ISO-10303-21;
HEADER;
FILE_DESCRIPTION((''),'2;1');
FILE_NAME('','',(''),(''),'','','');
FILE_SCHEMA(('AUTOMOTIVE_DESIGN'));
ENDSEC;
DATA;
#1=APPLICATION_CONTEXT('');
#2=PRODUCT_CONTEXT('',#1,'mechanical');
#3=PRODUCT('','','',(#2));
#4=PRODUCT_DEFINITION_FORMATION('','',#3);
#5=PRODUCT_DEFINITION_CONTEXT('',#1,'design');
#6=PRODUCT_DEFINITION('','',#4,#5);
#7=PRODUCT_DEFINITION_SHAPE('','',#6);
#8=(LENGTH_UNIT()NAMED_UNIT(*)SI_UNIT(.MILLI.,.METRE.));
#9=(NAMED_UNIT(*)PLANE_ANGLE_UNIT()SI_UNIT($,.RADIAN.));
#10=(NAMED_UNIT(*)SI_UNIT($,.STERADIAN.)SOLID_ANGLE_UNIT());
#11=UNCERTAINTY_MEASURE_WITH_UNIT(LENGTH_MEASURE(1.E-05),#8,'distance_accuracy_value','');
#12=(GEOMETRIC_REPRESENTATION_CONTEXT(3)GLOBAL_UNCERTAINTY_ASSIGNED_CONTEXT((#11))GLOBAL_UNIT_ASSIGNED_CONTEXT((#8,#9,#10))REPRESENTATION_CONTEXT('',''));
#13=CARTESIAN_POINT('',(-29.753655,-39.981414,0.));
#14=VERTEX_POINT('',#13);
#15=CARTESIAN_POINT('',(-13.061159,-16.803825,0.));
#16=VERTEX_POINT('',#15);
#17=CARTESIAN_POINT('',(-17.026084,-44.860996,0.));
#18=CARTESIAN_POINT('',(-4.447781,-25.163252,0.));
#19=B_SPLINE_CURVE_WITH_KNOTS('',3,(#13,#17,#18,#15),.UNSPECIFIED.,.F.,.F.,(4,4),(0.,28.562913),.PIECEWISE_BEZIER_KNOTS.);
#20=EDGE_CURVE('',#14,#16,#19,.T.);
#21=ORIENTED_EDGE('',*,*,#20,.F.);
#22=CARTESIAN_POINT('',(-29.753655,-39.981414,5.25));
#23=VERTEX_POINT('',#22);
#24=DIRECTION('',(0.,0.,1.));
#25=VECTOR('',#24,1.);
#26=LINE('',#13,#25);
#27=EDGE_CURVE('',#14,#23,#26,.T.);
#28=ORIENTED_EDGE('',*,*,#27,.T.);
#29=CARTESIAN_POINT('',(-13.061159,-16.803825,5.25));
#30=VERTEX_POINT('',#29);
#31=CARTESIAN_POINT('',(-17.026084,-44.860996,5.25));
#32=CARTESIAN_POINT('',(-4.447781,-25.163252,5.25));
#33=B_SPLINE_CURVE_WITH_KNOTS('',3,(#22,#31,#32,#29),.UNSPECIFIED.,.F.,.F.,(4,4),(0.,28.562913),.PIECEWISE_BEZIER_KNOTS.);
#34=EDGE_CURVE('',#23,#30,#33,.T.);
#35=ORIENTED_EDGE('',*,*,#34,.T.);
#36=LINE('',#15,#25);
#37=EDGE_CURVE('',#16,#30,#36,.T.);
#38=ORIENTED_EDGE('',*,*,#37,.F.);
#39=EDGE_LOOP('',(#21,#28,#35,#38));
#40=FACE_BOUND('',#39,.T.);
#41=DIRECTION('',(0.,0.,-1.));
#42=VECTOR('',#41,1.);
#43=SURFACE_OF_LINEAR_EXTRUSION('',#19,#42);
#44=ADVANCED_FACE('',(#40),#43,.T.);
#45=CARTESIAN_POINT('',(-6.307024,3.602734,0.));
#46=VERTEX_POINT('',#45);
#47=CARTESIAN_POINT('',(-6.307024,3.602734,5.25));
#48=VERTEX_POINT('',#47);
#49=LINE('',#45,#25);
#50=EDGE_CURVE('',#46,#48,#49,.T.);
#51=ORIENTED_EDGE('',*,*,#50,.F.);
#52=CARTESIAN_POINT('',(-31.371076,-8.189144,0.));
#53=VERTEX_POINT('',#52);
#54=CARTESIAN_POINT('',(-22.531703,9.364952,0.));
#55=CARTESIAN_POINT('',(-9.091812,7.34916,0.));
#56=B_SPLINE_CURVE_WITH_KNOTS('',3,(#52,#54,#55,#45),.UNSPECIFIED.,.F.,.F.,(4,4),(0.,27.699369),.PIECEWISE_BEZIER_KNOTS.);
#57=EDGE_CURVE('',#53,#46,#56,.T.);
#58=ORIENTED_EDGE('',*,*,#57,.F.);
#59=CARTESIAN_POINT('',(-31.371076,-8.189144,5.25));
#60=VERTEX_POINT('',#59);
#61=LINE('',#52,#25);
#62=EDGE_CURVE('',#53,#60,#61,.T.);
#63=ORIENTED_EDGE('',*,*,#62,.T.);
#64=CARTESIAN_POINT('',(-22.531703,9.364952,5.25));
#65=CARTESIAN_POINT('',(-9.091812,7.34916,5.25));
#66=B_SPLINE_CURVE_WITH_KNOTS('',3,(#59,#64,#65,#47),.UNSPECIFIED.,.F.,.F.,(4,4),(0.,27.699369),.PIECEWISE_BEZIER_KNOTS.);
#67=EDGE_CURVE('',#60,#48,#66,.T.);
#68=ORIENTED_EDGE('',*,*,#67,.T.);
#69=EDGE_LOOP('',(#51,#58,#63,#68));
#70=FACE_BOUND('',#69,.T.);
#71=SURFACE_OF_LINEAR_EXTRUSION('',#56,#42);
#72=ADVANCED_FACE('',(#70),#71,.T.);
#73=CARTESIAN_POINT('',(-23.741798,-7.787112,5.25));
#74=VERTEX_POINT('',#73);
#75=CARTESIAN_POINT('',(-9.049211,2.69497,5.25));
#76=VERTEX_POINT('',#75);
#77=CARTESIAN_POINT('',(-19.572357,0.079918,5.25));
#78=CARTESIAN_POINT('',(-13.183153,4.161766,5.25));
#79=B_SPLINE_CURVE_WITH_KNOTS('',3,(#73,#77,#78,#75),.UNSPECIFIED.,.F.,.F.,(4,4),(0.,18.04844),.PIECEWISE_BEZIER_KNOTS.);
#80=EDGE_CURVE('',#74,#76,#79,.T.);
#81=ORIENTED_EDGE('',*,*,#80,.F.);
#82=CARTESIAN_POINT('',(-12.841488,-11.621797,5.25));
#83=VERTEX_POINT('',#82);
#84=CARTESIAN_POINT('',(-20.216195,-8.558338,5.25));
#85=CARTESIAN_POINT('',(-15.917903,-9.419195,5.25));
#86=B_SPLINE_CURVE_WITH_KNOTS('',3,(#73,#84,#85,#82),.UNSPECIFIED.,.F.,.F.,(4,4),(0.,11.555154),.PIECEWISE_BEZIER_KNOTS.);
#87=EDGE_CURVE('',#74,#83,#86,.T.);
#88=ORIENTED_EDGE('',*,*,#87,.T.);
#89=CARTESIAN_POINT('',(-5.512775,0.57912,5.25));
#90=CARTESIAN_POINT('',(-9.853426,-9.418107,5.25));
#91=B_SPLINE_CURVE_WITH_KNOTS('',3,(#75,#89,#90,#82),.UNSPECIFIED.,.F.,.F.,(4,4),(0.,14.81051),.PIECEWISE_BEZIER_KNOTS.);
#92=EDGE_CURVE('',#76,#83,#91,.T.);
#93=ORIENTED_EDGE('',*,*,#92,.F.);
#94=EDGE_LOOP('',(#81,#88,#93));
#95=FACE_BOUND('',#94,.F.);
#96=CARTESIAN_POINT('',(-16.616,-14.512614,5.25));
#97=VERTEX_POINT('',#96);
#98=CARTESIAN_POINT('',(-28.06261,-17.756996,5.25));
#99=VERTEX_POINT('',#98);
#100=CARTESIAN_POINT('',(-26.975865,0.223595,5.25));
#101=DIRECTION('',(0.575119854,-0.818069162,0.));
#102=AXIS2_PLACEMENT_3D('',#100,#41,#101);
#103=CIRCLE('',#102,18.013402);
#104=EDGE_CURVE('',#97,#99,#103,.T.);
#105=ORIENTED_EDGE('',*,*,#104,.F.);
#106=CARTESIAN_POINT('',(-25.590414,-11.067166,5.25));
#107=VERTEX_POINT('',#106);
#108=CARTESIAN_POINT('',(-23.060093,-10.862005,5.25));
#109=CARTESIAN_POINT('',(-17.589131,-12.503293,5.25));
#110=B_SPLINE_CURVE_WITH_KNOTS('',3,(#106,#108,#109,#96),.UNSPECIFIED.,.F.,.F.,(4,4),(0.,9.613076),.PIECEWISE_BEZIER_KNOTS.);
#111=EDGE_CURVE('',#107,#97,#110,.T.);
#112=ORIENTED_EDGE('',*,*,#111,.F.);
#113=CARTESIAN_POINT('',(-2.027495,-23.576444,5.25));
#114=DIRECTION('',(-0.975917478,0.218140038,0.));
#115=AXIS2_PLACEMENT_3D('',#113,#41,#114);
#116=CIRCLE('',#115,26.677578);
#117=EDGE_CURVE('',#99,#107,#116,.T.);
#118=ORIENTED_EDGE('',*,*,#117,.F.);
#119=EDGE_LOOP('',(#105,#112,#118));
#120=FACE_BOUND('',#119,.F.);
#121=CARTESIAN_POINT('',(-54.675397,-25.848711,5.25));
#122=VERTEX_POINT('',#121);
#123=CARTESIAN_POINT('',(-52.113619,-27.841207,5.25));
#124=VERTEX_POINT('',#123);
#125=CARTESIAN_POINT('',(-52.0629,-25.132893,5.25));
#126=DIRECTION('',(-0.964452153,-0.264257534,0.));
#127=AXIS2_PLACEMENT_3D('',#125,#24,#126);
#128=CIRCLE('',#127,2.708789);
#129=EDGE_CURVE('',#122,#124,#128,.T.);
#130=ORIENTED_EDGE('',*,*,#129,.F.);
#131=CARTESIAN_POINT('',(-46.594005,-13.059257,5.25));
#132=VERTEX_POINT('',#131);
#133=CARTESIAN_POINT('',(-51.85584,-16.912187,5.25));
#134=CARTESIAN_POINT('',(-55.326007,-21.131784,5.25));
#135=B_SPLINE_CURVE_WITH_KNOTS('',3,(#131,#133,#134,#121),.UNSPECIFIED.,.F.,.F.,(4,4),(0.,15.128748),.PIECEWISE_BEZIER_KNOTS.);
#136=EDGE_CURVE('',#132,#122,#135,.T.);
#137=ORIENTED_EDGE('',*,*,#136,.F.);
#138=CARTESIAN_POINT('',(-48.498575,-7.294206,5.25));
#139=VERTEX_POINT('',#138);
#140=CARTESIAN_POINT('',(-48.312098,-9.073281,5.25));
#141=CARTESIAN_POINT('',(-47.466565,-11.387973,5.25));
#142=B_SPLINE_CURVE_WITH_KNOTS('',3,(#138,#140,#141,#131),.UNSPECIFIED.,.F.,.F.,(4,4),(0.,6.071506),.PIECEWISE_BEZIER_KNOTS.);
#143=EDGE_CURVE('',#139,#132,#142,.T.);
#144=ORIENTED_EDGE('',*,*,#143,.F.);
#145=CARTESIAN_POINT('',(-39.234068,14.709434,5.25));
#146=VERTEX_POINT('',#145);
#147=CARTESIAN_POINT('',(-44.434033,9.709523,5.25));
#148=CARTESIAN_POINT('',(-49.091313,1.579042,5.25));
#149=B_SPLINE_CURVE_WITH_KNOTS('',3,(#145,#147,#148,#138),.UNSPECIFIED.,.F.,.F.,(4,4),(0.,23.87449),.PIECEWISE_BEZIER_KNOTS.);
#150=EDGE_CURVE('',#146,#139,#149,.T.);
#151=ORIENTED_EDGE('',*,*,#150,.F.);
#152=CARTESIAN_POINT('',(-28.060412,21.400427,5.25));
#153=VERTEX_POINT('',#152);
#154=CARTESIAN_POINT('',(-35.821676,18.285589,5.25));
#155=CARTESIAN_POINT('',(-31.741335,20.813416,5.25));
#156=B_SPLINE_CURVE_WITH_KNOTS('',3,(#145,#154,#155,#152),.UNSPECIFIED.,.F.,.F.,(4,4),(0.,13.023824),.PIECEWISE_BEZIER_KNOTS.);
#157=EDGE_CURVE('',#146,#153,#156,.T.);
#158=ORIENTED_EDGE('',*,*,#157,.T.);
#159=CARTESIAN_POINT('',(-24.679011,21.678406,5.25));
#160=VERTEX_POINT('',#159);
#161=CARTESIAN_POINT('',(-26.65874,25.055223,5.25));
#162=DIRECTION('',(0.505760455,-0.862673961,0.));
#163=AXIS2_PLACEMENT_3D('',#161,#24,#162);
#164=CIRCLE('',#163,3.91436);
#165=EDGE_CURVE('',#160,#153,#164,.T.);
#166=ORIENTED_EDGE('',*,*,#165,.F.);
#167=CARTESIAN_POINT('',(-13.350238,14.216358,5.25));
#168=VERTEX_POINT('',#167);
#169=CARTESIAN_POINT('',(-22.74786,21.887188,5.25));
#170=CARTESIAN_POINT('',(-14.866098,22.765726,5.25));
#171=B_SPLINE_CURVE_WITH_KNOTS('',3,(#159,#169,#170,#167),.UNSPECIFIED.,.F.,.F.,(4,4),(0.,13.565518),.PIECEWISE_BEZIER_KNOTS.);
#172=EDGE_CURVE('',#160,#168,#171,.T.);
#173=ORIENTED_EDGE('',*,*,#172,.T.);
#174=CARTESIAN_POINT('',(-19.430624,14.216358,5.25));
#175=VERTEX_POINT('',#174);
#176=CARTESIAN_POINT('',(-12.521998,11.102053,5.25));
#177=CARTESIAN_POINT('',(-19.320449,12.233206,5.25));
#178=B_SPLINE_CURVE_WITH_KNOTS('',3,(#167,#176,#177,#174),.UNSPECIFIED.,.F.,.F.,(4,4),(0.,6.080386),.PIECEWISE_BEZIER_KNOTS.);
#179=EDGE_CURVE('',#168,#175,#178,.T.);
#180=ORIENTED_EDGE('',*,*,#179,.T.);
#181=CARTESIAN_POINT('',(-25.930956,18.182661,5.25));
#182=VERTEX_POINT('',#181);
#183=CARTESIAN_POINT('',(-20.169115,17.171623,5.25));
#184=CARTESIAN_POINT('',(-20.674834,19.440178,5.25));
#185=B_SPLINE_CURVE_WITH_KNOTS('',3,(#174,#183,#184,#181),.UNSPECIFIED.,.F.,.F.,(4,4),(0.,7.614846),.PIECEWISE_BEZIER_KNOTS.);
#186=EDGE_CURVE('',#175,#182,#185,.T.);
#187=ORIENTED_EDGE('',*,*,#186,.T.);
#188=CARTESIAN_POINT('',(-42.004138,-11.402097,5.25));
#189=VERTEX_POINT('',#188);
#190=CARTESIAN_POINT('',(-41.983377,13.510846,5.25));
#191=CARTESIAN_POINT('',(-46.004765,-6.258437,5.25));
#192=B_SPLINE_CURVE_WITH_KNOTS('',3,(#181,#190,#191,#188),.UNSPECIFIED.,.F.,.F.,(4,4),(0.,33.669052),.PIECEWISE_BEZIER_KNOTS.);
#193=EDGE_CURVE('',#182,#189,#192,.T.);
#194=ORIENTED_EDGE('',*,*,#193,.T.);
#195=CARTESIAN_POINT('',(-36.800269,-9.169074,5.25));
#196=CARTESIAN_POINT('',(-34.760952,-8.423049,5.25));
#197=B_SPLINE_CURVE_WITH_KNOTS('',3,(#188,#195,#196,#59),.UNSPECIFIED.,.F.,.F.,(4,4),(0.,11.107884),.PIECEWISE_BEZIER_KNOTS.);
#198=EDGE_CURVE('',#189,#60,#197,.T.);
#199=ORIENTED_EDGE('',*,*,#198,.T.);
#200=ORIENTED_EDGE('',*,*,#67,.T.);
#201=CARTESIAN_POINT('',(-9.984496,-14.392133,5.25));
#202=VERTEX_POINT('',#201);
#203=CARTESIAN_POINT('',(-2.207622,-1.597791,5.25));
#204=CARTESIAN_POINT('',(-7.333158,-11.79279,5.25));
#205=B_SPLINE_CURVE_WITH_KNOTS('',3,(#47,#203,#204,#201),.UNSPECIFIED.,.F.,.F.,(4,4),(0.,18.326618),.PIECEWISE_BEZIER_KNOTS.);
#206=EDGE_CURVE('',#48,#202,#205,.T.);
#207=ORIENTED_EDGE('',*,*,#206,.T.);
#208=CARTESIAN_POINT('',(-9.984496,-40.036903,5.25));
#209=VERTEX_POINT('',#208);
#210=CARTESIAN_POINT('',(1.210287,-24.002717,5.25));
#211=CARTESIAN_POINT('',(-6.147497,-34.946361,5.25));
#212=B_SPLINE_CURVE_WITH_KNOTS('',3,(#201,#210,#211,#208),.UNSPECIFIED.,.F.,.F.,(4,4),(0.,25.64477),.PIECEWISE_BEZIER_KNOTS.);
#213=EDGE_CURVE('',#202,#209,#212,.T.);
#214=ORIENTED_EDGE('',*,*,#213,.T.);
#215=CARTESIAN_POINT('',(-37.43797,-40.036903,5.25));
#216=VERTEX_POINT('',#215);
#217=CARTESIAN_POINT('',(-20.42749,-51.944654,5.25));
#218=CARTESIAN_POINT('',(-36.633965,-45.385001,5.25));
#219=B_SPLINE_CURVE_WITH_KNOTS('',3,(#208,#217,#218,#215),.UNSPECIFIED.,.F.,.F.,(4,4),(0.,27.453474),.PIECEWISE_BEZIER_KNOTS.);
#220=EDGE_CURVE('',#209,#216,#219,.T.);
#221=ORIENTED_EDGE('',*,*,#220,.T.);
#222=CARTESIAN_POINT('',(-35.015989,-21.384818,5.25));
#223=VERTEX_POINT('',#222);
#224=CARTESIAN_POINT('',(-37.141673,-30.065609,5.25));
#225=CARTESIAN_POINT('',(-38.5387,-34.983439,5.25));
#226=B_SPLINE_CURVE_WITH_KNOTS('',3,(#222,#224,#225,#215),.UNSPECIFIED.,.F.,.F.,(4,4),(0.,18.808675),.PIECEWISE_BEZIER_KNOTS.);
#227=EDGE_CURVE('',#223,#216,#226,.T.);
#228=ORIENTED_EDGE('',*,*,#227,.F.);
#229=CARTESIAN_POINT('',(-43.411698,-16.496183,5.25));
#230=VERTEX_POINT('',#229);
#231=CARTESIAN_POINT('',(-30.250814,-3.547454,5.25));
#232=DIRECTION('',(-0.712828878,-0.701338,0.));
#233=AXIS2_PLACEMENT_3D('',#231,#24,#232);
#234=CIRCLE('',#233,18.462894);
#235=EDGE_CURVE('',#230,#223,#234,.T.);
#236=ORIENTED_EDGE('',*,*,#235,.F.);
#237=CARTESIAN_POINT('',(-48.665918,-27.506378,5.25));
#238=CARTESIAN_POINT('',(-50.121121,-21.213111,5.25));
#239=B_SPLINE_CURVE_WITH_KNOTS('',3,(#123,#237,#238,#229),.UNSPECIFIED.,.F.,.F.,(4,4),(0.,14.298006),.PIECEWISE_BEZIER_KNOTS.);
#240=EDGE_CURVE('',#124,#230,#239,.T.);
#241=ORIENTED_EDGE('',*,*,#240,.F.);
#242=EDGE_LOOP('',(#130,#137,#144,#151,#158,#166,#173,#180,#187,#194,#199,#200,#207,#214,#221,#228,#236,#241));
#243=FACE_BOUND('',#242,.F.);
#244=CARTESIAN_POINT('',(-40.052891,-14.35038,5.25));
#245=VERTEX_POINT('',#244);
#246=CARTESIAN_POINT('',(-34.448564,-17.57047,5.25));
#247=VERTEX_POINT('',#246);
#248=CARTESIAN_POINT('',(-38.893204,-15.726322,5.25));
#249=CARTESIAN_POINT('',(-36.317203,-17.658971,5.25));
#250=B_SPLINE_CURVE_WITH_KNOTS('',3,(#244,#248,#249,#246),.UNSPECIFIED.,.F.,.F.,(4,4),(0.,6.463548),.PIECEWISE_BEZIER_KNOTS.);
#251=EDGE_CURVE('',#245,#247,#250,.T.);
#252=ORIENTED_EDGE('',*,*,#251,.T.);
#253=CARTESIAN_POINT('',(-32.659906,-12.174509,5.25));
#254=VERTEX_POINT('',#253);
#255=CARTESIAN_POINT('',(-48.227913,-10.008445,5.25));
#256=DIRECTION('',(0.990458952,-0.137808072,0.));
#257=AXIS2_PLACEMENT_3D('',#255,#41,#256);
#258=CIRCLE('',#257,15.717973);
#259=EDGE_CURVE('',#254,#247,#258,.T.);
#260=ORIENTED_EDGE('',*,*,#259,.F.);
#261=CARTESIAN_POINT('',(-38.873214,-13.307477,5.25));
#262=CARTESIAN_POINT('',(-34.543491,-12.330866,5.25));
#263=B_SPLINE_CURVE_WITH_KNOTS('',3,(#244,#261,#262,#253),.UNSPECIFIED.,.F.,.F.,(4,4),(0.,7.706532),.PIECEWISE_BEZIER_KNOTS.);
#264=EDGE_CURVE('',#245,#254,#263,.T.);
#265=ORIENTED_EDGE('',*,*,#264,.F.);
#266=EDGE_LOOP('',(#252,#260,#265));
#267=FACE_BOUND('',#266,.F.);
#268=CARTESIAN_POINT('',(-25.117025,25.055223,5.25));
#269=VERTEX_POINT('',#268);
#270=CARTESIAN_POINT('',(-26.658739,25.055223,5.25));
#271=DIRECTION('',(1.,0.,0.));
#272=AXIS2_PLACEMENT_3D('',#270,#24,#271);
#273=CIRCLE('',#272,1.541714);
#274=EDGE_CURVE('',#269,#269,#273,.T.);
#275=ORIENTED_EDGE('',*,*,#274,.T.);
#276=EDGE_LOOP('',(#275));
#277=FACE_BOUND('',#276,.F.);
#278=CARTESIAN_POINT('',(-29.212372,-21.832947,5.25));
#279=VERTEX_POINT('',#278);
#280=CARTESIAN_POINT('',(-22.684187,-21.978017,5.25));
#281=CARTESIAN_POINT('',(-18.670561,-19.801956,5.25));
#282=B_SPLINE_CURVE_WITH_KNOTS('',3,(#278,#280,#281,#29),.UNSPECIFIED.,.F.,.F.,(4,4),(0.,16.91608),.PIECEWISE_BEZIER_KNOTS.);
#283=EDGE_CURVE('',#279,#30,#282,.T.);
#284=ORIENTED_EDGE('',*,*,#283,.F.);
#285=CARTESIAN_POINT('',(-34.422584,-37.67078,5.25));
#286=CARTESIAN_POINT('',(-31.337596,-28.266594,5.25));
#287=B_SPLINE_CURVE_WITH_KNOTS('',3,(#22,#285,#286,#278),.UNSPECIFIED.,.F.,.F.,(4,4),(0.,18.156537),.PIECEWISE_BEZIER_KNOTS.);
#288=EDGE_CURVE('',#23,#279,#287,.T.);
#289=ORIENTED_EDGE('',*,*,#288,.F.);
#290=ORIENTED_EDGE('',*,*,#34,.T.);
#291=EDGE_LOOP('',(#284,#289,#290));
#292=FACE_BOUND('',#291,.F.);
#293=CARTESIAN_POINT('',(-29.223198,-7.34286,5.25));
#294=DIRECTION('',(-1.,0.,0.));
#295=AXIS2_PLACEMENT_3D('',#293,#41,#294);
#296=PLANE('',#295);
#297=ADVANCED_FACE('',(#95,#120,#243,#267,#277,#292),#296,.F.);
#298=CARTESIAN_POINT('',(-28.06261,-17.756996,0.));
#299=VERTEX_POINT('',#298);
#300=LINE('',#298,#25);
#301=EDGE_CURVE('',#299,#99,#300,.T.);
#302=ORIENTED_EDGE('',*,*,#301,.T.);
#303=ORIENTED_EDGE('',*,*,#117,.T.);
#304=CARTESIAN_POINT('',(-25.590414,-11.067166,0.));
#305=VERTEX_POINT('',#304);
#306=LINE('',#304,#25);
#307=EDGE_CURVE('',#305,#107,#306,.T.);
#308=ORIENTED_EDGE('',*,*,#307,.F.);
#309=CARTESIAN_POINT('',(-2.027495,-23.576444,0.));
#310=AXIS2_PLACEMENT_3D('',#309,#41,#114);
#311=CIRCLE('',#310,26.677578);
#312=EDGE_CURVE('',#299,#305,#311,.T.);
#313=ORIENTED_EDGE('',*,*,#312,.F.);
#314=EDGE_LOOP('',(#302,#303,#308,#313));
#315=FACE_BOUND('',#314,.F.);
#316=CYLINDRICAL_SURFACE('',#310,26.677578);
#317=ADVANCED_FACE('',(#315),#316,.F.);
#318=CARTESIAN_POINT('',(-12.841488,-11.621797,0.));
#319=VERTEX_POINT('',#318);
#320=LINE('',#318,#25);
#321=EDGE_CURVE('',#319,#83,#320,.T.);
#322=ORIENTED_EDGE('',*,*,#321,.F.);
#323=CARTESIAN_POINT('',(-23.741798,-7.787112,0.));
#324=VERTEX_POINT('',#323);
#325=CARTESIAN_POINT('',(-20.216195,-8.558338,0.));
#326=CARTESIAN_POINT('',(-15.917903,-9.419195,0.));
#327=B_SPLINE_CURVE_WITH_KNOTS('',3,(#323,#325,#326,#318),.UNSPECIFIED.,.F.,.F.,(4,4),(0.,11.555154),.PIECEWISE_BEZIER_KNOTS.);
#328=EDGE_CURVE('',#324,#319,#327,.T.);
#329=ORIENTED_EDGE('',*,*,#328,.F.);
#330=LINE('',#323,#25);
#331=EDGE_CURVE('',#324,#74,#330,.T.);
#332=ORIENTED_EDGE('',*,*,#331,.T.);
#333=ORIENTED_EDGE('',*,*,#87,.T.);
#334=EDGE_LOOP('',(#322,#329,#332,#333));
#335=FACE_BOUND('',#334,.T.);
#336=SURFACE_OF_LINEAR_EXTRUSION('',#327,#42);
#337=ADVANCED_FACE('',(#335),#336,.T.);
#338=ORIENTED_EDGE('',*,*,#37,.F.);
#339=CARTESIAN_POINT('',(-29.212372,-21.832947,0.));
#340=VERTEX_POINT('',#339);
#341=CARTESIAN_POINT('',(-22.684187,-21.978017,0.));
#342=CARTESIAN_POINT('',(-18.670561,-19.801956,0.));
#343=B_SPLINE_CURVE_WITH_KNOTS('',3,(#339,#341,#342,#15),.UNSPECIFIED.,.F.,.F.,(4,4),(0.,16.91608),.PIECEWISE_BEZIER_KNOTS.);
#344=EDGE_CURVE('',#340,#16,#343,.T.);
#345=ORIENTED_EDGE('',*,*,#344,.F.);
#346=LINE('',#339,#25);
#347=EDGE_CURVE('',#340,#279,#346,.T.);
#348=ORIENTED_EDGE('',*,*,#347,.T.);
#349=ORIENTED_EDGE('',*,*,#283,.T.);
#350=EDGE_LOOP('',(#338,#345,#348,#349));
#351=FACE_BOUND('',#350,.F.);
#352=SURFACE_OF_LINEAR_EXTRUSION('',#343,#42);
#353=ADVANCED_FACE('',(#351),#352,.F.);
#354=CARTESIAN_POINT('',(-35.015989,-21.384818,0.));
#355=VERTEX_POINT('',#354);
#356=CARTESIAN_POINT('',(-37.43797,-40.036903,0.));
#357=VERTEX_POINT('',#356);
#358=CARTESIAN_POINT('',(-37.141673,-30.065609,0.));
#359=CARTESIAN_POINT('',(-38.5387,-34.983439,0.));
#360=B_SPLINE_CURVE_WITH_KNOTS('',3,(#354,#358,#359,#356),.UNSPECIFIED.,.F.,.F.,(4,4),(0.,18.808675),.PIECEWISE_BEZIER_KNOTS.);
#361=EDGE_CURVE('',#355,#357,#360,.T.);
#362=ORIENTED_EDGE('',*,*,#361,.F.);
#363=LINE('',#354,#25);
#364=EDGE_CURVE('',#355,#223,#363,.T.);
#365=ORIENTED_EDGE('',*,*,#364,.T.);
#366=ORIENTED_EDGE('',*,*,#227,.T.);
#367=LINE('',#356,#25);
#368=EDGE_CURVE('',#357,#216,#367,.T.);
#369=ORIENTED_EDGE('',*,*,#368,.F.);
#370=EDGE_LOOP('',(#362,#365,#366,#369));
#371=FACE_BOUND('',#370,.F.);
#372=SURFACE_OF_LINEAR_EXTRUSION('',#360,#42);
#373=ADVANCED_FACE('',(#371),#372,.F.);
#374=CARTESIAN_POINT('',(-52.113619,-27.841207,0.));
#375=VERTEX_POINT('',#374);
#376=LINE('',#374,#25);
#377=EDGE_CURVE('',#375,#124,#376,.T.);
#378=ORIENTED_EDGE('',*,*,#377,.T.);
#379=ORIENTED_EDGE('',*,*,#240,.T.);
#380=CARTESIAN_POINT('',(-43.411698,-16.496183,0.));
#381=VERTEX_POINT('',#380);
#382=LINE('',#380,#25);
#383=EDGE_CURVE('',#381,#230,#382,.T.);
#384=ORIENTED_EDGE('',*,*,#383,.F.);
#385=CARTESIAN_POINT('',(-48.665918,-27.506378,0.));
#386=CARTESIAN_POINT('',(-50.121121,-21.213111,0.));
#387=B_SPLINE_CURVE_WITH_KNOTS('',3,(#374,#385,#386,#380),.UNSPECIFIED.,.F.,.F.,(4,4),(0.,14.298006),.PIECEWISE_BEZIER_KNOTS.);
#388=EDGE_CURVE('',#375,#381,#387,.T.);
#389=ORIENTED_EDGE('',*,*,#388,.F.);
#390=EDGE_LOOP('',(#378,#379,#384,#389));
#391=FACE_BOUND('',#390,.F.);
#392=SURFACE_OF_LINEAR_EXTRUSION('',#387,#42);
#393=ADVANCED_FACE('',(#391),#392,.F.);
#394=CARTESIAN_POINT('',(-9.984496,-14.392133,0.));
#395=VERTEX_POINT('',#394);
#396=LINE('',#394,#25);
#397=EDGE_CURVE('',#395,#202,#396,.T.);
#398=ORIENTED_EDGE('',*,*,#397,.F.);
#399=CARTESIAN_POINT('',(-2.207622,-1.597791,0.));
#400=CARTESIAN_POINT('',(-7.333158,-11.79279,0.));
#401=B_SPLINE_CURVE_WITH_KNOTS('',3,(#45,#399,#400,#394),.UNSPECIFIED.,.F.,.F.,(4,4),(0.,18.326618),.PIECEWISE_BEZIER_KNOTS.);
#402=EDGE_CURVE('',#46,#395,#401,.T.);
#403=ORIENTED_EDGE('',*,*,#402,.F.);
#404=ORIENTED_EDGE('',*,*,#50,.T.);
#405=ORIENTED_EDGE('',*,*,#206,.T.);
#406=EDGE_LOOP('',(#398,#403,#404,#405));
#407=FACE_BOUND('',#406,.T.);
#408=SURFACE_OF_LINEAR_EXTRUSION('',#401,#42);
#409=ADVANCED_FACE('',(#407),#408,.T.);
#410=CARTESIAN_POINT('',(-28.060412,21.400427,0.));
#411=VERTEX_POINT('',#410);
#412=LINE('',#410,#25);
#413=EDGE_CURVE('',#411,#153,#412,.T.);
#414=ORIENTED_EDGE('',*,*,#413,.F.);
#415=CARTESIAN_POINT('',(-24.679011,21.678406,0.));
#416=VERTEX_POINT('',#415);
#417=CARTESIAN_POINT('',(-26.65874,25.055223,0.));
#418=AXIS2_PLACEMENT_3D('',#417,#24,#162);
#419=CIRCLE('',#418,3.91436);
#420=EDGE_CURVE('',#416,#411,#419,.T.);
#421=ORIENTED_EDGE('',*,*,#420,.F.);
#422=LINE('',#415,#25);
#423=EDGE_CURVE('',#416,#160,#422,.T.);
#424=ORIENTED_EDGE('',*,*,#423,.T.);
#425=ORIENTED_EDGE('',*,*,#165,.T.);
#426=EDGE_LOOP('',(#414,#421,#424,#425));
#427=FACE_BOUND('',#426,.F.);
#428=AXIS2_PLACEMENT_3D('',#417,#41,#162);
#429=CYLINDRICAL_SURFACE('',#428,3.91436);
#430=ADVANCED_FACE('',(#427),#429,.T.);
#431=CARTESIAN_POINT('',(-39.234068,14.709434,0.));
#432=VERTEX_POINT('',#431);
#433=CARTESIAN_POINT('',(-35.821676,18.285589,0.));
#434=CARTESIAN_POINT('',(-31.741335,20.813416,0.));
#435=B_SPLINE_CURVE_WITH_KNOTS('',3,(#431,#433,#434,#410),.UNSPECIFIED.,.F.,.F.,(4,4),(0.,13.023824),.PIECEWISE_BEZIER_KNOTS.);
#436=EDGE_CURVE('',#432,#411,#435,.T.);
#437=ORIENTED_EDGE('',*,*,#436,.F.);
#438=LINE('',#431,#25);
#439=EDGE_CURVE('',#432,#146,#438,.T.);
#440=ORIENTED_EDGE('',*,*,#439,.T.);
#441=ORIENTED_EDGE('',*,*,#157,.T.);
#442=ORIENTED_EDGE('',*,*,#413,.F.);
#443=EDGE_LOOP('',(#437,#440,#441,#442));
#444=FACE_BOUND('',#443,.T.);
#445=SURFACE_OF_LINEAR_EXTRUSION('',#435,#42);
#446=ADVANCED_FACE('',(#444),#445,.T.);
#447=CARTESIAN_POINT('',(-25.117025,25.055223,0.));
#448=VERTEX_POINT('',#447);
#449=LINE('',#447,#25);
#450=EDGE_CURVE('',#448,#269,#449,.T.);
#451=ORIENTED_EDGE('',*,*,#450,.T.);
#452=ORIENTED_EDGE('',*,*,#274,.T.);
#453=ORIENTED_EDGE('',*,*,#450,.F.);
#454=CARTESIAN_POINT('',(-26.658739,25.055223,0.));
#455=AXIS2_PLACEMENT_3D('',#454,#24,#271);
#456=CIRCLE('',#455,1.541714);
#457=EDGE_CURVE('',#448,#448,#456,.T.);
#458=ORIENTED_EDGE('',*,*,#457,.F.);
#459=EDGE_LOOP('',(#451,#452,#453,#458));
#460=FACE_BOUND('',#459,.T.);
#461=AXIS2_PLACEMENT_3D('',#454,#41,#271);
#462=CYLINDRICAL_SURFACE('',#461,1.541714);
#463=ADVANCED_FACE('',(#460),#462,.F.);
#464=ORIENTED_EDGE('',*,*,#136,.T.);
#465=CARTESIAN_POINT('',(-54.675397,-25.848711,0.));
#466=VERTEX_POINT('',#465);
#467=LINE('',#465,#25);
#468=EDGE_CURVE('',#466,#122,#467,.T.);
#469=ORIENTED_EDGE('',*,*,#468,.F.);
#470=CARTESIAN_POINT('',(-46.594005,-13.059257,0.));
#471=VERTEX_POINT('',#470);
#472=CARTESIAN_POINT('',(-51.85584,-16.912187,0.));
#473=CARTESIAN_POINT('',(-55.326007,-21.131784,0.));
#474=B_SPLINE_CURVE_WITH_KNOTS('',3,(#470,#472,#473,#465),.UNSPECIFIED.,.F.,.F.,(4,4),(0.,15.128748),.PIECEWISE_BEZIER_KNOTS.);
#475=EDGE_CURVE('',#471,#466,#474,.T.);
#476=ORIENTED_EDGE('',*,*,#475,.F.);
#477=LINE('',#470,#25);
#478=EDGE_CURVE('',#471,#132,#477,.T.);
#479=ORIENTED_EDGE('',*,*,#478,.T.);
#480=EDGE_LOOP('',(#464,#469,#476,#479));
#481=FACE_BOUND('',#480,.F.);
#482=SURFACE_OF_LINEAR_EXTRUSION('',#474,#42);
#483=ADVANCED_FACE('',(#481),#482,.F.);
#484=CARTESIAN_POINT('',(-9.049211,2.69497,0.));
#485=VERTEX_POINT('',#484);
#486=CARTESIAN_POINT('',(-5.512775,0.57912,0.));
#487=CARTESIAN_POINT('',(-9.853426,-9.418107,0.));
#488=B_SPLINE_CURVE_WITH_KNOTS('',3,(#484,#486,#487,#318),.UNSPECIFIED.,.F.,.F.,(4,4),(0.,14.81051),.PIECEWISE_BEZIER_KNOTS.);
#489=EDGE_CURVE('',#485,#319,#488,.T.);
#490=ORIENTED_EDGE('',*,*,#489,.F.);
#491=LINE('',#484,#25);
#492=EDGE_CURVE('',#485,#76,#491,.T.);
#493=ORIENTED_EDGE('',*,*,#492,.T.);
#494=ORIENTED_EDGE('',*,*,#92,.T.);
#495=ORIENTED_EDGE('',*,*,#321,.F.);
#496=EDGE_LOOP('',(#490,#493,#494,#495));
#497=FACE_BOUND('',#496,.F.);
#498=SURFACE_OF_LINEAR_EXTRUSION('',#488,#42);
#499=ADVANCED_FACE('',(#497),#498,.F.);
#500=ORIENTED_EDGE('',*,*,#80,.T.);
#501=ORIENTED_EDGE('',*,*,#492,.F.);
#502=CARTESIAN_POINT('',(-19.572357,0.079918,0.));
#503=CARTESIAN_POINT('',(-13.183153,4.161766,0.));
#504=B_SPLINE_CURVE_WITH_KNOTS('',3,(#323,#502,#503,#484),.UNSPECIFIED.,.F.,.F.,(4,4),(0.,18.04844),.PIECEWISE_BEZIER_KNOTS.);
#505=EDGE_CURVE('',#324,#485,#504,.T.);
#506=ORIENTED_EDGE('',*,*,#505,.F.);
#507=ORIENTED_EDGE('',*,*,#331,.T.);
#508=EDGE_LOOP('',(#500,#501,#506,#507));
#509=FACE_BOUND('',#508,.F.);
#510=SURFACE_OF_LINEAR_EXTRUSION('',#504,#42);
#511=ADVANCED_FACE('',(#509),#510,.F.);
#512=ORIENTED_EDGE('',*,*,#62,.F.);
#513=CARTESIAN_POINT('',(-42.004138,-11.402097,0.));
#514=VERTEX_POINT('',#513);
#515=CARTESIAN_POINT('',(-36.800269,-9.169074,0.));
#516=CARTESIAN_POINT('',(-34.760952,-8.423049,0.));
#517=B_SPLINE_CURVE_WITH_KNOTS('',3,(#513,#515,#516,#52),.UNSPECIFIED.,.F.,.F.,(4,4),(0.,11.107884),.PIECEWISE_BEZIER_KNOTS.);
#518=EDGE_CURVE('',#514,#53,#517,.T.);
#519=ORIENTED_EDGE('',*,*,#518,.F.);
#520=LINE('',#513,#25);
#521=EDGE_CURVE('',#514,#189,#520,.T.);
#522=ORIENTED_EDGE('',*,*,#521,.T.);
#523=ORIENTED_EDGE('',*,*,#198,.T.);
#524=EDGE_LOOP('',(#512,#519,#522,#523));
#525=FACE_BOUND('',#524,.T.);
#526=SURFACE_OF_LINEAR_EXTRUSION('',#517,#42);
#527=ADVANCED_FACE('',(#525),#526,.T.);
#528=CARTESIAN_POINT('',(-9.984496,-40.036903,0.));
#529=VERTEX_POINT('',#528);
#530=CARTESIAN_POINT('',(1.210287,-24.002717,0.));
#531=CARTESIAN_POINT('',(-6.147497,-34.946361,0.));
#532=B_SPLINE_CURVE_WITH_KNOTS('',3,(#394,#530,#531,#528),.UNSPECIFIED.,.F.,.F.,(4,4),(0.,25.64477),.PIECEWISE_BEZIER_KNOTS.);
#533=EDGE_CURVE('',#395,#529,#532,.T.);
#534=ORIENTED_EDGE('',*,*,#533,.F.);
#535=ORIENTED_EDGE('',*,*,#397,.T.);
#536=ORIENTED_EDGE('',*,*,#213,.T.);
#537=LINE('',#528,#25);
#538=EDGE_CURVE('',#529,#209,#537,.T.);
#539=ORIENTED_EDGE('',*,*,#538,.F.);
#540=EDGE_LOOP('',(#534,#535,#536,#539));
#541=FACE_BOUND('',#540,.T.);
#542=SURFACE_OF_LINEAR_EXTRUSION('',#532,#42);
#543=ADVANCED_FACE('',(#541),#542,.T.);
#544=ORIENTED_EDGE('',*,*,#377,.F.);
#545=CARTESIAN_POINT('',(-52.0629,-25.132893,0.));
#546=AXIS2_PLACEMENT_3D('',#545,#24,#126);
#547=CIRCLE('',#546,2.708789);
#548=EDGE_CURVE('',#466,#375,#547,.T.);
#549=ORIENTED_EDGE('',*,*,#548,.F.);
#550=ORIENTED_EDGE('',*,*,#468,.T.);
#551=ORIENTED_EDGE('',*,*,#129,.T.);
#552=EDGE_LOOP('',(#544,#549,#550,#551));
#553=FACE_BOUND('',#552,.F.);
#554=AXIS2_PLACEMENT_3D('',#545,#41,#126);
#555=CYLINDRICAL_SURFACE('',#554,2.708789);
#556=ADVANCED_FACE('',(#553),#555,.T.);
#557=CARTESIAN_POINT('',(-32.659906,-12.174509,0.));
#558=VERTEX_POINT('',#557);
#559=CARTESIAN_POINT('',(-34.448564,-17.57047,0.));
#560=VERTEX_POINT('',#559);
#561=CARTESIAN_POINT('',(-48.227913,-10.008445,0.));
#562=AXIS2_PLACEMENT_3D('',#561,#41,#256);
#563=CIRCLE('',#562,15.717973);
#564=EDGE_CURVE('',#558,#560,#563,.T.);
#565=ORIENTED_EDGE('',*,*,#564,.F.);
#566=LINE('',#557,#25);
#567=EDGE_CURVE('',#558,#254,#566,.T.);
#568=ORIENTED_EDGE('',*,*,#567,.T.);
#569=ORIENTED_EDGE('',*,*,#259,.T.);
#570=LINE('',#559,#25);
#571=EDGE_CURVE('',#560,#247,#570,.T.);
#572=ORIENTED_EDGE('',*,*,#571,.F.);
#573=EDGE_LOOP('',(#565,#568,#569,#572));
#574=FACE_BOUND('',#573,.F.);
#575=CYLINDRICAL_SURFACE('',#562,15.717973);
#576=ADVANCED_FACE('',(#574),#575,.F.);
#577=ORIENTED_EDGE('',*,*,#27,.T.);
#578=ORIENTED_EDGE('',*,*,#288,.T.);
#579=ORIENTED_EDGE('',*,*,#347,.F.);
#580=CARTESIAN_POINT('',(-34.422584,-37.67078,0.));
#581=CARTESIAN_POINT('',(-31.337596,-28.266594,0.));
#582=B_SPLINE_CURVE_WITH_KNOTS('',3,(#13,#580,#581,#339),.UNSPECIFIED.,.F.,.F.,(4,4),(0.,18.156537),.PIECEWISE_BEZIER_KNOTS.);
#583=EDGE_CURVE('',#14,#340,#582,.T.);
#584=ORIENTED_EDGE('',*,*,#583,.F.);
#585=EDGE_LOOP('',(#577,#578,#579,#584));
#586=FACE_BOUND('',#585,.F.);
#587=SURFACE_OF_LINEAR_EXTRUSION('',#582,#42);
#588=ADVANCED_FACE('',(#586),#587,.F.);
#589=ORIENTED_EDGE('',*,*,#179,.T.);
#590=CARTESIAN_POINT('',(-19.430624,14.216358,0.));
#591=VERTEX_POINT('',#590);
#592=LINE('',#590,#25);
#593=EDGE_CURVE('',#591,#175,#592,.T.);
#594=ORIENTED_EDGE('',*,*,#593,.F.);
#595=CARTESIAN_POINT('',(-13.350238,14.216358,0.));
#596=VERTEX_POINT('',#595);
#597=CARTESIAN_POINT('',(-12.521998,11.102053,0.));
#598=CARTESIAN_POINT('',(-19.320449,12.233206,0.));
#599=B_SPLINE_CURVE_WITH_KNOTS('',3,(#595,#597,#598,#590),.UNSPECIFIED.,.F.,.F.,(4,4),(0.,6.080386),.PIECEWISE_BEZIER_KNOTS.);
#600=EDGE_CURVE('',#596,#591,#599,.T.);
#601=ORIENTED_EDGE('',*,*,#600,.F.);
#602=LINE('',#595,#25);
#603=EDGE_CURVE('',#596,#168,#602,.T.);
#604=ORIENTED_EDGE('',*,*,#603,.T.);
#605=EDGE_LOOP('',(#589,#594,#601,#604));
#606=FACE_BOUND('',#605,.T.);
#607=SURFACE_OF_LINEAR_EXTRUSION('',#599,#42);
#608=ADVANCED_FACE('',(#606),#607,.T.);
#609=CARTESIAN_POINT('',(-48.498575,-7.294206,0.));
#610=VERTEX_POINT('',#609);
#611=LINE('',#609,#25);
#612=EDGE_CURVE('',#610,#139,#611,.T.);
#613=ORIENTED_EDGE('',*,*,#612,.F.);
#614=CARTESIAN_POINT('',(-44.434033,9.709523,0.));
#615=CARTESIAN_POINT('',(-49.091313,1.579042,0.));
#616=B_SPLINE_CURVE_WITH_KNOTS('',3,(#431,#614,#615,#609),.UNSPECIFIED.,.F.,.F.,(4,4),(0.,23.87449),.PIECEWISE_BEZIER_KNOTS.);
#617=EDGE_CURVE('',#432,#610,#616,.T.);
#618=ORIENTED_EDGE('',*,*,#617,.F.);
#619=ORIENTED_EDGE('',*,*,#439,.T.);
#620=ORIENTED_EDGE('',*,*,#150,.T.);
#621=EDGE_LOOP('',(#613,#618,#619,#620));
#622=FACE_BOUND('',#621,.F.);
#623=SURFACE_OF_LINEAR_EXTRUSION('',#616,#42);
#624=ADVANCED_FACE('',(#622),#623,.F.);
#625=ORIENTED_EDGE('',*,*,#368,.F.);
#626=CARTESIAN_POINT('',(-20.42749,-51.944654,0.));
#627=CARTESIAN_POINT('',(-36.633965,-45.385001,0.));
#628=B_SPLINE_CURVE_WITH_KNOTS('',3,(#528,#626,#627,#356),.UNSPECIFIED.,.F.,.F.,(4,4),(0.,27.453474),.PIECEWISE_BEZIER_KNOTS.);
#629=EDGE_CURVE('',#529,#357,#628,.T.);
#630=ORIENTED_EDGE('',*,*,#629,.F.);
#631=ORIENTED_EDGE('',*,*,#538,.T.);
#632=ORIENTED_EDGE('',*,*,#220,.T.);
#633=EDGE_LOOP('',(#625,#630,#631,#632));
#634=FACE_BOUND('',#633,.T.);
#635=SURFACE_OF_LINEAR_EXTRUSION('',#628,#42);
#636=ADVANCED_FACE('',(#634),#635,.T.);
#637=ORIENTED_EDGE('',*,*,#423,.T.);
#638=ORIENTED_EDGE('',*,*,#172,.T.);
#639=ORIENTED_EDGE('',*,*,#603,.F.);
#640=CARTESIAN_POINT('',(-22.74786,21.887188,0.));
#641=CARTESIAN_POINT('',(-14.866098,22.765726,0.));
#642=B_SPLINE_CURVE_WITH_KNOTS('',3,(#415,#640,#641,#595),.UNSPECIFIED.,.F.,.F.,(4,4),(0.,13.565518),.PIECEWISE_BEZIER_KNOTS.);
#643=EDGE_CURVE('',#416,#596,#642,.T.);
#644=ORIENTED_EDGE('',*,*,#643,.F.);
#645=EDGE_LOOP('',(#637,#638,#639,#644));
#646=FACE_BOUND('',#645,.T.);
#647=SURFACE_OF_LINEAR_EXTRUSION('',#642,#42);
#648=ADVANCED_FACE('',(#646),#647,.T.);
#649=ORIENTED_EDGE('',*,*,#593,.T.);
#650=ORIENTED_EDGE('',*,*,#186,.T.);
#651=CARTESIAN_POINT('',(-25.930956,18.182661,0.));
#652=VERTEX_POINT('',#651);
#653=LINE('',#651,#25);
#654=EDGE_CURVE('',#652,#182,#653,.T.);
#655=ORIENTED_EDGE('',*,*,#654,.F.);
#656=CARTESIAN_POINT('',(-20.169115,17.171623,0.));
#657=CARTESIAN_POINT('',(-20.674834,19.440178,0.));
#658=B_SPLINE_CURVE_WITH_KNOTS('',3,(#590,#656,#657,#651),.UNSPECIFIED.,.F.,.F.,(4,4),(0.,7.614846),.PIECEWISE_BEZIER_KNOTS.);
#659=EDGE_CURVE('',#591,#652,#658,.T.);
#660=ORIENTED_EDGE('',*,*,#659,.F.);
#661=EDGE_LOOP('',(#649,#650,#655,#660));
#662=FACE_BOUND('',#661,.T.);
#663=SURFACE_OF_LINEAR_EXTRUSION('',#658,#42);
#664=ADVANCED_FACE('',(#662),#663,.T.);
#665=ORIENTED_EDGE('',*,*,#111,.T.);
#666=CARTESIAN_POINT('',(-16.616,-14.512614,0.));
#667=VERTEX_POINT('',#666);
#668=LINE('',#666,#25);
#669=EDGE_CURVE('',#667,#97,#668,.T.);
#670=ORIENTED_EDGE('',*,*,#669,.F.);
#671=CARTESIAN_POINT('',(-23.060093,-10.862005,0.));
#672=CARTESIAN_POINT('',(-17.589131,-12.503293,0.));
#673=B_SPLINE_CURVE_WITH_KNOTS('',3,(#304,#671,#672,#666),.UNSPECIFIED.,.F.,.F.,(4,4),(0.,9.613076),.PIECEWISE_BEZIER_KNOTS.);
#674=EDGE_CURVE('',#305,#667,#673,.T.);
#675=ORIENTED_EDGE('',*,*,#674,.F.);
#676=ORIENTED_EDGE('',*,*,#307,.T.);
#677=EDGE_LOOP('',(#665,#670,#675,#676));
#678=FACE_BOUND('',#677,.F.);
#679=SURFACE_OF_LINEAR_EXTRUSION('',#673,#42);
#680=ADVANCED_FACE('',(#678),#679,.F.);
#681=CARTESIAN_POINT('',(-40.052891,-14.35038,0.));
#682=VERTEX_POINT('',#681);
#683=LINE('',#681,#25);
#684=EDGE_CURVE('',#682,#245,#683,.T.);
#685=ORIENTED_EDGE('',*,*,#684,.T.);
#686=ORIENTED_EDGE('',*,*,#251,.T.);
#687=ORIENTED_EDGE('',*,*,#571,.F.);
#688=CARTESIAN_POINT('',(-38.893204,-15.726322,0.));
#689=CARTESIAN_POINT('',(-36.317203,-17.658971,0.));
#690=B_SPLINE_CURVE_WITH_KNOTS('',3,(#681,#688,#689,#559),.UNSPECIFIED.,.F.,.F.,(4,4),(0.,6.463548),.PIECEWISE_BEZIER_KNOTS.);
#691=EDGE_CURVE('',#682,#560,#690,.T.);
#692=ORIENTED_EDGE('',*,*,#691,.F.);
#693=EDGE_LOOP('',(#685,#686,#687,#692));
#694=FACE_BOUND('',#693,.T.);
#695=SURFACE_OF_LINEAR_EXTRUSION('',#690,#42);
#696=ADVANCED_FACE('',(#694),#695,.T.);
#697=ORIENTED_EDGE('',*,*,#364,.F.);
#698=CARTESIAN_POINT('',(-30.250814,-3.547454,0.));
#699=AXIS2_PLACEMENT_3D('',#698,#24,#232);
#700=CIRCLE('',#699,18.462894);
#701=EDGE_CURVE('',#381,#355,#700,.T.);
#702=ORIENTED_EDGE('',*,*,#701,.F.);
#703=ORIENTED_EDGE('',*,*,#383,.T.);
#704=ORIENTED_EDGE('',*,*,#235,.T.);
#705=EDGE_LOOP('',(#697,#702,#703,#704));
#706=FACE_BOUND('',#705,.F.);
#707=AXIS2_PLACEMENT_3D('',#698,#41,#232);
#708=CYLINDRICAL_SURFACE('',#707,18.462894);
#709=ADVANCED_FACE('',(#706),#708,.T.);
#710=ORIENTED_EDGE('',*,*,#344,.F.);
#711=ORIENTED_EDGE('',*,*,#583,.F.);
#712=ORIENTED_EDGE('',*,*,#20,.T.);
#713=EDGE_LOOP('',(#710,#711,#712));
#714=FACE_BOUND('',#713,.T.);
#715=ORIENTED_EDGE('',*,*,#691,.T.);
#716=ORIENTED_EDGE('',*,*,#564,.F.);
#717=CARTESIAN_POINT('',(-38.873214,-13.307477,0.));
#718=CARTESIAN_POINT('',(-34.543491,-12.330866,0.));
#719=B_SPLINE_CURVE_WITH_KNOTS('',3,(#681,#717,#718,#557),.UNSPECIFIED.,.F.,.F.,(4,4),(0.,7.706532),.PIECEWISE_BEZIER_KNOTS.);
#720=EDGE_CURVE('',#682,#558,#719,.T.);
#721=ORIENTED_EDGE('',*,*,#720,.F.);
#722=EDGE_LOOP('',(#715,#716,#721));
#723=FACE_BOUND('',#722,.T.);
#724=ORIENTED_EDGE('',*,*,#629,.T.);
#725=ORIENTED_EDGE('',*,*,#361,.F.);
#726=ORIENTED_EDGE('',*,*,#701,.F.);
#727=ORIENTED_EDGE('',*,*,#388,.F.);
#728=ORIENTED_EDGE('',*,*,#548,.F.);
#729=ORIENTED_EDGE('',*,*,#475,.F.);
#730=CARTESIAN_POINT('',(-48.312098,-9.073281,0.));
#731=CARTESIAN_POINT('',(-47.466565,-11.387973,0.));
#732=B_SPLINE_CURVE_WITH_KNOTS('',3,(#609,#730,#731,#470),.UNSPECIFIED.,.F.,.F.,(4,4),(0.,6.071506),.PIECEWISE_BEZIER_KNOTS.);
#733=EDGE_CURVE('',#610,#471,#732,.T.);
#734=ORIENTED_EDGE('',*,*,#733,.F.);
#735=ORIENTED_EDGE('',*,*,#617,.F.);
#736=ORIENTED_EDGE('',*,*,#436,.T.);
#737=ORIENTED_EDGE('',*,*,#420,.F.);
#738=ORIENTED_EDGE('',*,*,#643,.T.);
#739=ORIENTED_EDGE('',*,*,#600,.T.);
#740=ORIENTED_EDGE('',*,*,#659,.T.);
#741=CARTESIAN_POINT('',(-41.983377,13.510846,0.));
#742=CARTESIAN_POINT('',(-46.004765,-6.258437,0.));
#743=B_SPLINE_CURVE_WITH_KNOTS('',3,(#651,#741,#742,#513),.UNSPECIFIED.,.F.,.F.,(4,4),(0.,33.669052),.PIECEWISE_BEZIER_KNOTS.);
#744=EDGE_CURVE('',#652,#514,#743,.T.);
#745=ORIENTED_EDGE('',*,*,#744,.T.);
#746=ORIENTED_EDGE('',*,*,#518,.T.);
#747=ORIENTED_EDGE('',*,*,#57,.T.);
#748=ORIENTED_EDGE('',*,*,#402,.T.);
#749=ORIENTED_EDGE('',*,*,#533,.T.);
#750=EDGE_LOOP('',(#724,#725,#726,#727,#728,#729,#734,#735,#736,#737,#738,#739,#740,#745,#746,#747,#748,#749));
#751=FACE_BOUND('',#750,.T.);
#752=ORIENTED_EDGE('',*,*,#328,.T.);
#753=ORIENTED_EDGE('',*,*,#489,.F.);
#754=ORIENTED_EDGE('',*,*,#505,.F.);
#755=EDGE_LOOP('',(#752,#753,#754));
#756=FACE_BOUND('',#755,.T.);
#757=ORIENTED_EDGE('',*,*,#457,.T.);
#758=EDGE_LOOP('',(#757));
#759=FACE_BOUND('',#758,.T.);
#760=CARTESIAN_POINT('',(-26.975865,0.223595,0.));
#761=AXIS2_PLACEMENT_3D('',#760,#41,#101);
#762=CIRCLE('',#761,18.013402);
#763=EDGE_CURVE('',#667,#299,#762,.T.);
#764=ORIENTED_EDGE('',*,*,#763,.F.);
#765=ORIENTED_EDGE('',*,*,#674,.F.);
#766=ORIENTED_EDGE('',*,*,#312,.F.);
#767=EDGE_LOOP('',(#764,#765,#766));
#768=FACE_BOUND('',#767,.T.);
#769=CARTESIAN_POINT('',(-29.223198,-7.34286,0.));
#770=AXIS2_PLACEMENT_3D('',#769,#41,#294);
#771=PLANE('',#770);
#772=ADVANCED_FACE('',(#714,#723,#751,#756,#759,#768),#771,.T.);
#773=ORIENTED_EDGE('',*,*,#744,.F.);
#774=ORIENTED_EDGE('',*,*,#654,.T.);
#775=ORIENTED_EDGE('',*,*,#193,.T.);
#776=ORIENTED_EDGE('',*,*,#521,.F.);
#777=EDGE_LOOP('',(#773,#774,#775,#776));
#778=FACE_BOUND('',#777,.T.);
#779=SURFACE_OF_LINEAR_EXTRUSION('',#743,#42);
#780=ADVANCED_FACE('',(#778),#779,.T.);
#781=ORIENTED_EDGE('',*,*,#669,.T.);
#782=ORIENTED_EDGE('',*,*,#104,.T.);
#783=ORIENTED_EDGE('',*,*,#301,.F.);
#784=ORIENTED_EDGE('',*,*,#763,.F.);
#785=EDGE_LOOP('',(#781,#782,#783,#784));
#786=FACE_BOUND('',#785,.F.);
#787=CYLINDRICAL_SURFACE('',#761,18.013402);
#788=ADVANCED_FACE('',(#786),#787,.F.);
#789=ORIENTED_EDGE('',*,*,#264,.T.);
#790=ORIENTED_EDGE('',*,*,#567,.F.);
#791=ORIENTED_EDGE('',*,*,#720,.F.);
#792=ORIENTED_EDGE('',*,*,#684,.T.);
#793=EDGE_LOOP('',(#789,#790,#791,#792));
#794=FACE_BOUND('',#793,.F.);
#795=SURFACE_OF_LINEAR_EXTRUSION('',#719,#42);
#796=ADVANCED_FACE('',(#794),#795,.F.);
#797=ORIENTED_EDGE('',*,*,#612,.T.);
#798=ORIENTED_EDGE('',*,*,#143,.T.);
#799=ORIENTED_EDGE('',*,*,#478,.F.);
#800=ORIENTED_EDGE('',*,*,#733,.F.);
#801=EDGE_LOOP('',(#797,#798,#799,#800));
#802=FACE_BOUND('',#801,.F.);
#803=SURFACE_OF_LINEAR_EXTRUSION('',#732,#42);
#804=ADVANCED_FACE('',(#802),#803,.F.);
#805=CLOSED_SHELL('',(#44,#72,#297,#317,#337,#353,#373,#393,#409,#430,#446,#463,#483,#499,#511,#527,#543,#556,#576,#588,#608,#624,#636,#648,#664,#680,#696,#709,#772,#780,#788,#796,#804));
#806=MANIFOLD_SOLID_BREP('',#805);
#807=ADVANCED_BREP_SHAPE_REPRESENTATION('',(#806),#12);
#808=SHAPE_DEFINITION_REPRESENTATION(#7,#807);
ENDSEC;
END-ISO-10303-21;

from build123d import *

# Parameters (mm, degrees)
F0_R     = 1.541714
F1_DEPTH = 5.25


with BuildPart() as f1:
    # F0 (on Top) → F1 (new body)
    with BuildSketch(Plane.XY):
        with BuildLine():
            add(Edge.make_bspline(
                [(-39.234068, 14.709434), (-35.821676, 18.285589), (-31.741335, 20.813416), (-28.060412, 21.400427)],
                knots=[0, 0, 0, 0, 13.023824, 13.023824, 13.023824, 13.023824], degree=3))
            add(Edge.make_bspline(
                [(-39.234068, 14.709434), (-44.434033, 9.709523), (-49.091313, 1.579042), (-48.498575, -7.294206)],
                knots=[0, 0, 0, 0, 23.87449, 23.87449, 23.87449, 23.87449], degree=3))
            add(Edge.make_bspline(
                [(-48.498575, -7.294206), (-48.312098, -9.073281), (-47.466565, -11.387973), (-46.594005, -13.059257)],
                knots=[0, 0, 0, 0, 6.071506, 6.071506, 6.071506, 6.071506], degree=3))
            add(Edge.make_bspline(
                [(-46.594005, -13.059257), (-51.85584, -16.912187), (-55.326007, -21.131784), (-54.675397, -25.848711)],
                knots=[0, 0, 0, 0, 15.128748, 15.128748, 15.128748, 15.128748], degree=3))
            ThreePointArc((-54.675397, -25.848711), (-53.725936, -27.271081), (-52.113619, -27.841207))
            add(Edge.make_bspline(
                [(-52.113619, -27.841207), (-48.665918, -27.506378), (-50.121121, -21.213111), (-43.411698, -16.496183)],
                knots=[0, 0, 0, 0, 14.298006, 14.298006, 14.298006, 14.298006], degree=3))
            ThreePointArc((-43.411698, -16.496183), (-39.541163, -19.502637), (-35.015989, -21.384818))
            add(Edge.make_bspline(
                [(-35.015989, -21.384818), (-37.141673, -30.065609), (-38.5387, -34.983439), (-37.43797, -40.036903)],
                knots=[0, 0, 0, 0, 18.808675, 18.808675, 18.808675, 18.808675], degree=3))
            add(Edge.make_bspline(
                [(-9.984496, -40.036903), (-20.42749, -51.944654), (-36.633965, -45.385001), (-37.43797, -40.036903)],
                knots=[0, 0, 0, 0, 27.453474, 27.453474, 27.453474, 27.453474], degree=3))
            add(Edge.make_bspline(
                [(-9.984496, -14.392133), (1.210287, -24.002717), (-6.147497, -34.946361), (-9.984496, -40.036903)],
                knots=[0, 0, 0, 0, 25.64477, 25.64477, 25.64477, 25.64477], degree=3))
            add(Edge.make_bspline(
                [(-6.307024, 3.602734), (-2.207622, -1.597791), (-7.333158, -11.79279), (-9.984496, -14.392133)],
                knots=[0, 0, 0, 0, 18.326618, 18.326618, 18.326618, 18.326618], degree=3))
            add(Edge.make_bspline(
                [(-31.371076, -8.189144), (-22.531703, 9.364952), (-9.091812, 7.34916), (-6.307024, 3.602734)],
                knots=[0, 0, 0, 0, 27.699369, 27.699369, 27.699369, 27.699369], degree=3))
            add(Edge.make_bspline(
                [(-42.004138, -11.402097), (-36.800269, -9.169074), (-34.760952, -8.423049), (-31.371076, -8.189144)],
                knots=[0, 0, 0, 0, 11.107884, 11.107884, 11.107884, 11.107884], degree=3))
            add(Edge.make_bspline(
                [(-25.930956, 18.182661), (-41.983377, 13.510846), (-46.004765, -6.258437), (-42.004138, -11.402097)],
                knots=[0, 0, 0, 0, 33.669052, 33.669052, 33.669052, 33.669052], degree=3))
            add(Edge.make_bspline(
                [(-19.430624, 14.216358), (-20.169115, 17.171623), (-20.674834, 19.440178), (-25.930956, 18.182661)],
                knots=[0, 0, 0, 0, 7.614846, 7.614846, 7.614846, 7.614846], degree=3))
            add(Edge.make_bspline(
                [(-13.350238, 14.216358), (-12.521998, 11.102053), (-19.320449, 12.233206), (-19.430624, 14.216358)],
                knots=[0, 0, 0, 0, 6.080386, 6.080386, 6.080386, 6.080386], degree=3))
            add(Edge.make_bspline(
                [(-24.679011, 21.678406), (-22.74786, 21.887188), (-14.866098, 22.765726), (-13.350238, 14.216358)],
                knots=[0, 0, 0, 0, 13.565518, 13.565518, 13.565518, 13.565518], degree=3))
            ThreePointArc((-24.679011, 21.678406), (-26.97945, 28.956423), (-28.060412, 21.400427))
        make_face()
        with BuildLine():
            add(Edge.make_bspline(
                [(-40.052891, -14.35038), (-38.893204, -15.726322), (-36.317203, -17.658971), (-34.448564, -17.57047)],
                knots=[0, 0, 0, 0, 6.463548, 6.463548, 6.463548, 6.463548], degree=3))
            add(Edge.make_bspline(
                [(-40.052891, -14.35038), (-38.873214, -13.307477), (-34.543491, -12.330866), (-32.659906, -12.174509)],
                knots=[0, 0, 0, 0, 7.706532, 7.706532, 7.706532, 7.706532], degree=3))
            ThreePointArc((-32.659906, -12.174509), (-33.308264, -14.954024), (-34.448564, -17.57047))
        make_face(mode=Mode.SUBTRACT)
        with BuildLine():
            add(Edge.make_bspline(
                [(-29.753655, -39.981414), (-34.422584, -37.67078), (-31.337596, -28.266594), (-29.212372, -21.832947)],
                knots=[0, 0, 0, 0, 18.156537, 18.156537, 18.156537, 18.156537], degree=3))
            add(Edge.make_bspline(
                [(-29.212372, -21.832947), (-22.684187, -21.978017), (-18.670561, -19.801956), (-13.061159, -16.803825)],
                knots=[0, 0, 0, 0, 16.91608, 16.91608, 16.91608, 16.91608], degree=3))
            add(Edge.make_bspline(
                [(-29.753655, -39.981414), (-17.026084, -44.860996), (-4.447781, -25.163252), (-13.061159, -16.803825)],
                knots=[0, 0, 0, 0, 28.562913, 28.562913, 28.562913, 28.562913], degree=3))
        make_face(mode=Mode.SUBTRACT)
        with BuildLine():
            ThreePointArc((-16.616, -14.512614), (-22.063718, -17.107114), (-28.06261, -17.756996))
            ThreePointArc((-28.06261, -17.756996), (-27.051078, -14.329094), (-25.590414, -11.067166))
            add(Edge.make_bspline(
                [(-25.590414, -11.067166), (-23.060093, -10.862005), (-17.589131, -12.503293), (-16.616, -14.512614)],
                knots=[0, 0, 0, 0, 9.613076, 9.613076, 9.613076, 9.613076], degree=3))
        make_face(mode=Mode.SUBTRACT)
        with BuildLine():
            add(Edge.make_bspline(
                [(-23.741798, -7.787112), (-20.216195, -8.558338), (-15.917903, -9.419195), (-12.841488, -11.621797)],
                knots=[0, 0, 0, 0, 11.555154, 11.555154, 11.555154, 11.555154], degree=3))
            add(Edge.make_bspline(
                [(-23.741798, -7.787112), (-19.572357, 0.079918), (-13.183153, 4.161766), (-9.049211, 2.69497)],
                knots=[0, 0, 0, 0, 18.04844, 18.04844, 18.04844, 18.04844], degree=3))
            add(Edge.make_bspline(
                [(-9.049211, 2.69497), (-5.512775, 0.57912), (-9.853426, -9.418107), (-12.841488, -11.621797)],
                knots=[0, 0, 0, 0, 14.81051, 14.81051, 14.81051, 14.81051], degree=3))
        make_face(mode=Mode.SUBTRACT)
        with Locations((-26.658739, 25.055223)):
            Circle(F0_R, mode=Mode.SUBTRACT)
    extrude(amount=F1_DEPTH)


solid = f1.part
